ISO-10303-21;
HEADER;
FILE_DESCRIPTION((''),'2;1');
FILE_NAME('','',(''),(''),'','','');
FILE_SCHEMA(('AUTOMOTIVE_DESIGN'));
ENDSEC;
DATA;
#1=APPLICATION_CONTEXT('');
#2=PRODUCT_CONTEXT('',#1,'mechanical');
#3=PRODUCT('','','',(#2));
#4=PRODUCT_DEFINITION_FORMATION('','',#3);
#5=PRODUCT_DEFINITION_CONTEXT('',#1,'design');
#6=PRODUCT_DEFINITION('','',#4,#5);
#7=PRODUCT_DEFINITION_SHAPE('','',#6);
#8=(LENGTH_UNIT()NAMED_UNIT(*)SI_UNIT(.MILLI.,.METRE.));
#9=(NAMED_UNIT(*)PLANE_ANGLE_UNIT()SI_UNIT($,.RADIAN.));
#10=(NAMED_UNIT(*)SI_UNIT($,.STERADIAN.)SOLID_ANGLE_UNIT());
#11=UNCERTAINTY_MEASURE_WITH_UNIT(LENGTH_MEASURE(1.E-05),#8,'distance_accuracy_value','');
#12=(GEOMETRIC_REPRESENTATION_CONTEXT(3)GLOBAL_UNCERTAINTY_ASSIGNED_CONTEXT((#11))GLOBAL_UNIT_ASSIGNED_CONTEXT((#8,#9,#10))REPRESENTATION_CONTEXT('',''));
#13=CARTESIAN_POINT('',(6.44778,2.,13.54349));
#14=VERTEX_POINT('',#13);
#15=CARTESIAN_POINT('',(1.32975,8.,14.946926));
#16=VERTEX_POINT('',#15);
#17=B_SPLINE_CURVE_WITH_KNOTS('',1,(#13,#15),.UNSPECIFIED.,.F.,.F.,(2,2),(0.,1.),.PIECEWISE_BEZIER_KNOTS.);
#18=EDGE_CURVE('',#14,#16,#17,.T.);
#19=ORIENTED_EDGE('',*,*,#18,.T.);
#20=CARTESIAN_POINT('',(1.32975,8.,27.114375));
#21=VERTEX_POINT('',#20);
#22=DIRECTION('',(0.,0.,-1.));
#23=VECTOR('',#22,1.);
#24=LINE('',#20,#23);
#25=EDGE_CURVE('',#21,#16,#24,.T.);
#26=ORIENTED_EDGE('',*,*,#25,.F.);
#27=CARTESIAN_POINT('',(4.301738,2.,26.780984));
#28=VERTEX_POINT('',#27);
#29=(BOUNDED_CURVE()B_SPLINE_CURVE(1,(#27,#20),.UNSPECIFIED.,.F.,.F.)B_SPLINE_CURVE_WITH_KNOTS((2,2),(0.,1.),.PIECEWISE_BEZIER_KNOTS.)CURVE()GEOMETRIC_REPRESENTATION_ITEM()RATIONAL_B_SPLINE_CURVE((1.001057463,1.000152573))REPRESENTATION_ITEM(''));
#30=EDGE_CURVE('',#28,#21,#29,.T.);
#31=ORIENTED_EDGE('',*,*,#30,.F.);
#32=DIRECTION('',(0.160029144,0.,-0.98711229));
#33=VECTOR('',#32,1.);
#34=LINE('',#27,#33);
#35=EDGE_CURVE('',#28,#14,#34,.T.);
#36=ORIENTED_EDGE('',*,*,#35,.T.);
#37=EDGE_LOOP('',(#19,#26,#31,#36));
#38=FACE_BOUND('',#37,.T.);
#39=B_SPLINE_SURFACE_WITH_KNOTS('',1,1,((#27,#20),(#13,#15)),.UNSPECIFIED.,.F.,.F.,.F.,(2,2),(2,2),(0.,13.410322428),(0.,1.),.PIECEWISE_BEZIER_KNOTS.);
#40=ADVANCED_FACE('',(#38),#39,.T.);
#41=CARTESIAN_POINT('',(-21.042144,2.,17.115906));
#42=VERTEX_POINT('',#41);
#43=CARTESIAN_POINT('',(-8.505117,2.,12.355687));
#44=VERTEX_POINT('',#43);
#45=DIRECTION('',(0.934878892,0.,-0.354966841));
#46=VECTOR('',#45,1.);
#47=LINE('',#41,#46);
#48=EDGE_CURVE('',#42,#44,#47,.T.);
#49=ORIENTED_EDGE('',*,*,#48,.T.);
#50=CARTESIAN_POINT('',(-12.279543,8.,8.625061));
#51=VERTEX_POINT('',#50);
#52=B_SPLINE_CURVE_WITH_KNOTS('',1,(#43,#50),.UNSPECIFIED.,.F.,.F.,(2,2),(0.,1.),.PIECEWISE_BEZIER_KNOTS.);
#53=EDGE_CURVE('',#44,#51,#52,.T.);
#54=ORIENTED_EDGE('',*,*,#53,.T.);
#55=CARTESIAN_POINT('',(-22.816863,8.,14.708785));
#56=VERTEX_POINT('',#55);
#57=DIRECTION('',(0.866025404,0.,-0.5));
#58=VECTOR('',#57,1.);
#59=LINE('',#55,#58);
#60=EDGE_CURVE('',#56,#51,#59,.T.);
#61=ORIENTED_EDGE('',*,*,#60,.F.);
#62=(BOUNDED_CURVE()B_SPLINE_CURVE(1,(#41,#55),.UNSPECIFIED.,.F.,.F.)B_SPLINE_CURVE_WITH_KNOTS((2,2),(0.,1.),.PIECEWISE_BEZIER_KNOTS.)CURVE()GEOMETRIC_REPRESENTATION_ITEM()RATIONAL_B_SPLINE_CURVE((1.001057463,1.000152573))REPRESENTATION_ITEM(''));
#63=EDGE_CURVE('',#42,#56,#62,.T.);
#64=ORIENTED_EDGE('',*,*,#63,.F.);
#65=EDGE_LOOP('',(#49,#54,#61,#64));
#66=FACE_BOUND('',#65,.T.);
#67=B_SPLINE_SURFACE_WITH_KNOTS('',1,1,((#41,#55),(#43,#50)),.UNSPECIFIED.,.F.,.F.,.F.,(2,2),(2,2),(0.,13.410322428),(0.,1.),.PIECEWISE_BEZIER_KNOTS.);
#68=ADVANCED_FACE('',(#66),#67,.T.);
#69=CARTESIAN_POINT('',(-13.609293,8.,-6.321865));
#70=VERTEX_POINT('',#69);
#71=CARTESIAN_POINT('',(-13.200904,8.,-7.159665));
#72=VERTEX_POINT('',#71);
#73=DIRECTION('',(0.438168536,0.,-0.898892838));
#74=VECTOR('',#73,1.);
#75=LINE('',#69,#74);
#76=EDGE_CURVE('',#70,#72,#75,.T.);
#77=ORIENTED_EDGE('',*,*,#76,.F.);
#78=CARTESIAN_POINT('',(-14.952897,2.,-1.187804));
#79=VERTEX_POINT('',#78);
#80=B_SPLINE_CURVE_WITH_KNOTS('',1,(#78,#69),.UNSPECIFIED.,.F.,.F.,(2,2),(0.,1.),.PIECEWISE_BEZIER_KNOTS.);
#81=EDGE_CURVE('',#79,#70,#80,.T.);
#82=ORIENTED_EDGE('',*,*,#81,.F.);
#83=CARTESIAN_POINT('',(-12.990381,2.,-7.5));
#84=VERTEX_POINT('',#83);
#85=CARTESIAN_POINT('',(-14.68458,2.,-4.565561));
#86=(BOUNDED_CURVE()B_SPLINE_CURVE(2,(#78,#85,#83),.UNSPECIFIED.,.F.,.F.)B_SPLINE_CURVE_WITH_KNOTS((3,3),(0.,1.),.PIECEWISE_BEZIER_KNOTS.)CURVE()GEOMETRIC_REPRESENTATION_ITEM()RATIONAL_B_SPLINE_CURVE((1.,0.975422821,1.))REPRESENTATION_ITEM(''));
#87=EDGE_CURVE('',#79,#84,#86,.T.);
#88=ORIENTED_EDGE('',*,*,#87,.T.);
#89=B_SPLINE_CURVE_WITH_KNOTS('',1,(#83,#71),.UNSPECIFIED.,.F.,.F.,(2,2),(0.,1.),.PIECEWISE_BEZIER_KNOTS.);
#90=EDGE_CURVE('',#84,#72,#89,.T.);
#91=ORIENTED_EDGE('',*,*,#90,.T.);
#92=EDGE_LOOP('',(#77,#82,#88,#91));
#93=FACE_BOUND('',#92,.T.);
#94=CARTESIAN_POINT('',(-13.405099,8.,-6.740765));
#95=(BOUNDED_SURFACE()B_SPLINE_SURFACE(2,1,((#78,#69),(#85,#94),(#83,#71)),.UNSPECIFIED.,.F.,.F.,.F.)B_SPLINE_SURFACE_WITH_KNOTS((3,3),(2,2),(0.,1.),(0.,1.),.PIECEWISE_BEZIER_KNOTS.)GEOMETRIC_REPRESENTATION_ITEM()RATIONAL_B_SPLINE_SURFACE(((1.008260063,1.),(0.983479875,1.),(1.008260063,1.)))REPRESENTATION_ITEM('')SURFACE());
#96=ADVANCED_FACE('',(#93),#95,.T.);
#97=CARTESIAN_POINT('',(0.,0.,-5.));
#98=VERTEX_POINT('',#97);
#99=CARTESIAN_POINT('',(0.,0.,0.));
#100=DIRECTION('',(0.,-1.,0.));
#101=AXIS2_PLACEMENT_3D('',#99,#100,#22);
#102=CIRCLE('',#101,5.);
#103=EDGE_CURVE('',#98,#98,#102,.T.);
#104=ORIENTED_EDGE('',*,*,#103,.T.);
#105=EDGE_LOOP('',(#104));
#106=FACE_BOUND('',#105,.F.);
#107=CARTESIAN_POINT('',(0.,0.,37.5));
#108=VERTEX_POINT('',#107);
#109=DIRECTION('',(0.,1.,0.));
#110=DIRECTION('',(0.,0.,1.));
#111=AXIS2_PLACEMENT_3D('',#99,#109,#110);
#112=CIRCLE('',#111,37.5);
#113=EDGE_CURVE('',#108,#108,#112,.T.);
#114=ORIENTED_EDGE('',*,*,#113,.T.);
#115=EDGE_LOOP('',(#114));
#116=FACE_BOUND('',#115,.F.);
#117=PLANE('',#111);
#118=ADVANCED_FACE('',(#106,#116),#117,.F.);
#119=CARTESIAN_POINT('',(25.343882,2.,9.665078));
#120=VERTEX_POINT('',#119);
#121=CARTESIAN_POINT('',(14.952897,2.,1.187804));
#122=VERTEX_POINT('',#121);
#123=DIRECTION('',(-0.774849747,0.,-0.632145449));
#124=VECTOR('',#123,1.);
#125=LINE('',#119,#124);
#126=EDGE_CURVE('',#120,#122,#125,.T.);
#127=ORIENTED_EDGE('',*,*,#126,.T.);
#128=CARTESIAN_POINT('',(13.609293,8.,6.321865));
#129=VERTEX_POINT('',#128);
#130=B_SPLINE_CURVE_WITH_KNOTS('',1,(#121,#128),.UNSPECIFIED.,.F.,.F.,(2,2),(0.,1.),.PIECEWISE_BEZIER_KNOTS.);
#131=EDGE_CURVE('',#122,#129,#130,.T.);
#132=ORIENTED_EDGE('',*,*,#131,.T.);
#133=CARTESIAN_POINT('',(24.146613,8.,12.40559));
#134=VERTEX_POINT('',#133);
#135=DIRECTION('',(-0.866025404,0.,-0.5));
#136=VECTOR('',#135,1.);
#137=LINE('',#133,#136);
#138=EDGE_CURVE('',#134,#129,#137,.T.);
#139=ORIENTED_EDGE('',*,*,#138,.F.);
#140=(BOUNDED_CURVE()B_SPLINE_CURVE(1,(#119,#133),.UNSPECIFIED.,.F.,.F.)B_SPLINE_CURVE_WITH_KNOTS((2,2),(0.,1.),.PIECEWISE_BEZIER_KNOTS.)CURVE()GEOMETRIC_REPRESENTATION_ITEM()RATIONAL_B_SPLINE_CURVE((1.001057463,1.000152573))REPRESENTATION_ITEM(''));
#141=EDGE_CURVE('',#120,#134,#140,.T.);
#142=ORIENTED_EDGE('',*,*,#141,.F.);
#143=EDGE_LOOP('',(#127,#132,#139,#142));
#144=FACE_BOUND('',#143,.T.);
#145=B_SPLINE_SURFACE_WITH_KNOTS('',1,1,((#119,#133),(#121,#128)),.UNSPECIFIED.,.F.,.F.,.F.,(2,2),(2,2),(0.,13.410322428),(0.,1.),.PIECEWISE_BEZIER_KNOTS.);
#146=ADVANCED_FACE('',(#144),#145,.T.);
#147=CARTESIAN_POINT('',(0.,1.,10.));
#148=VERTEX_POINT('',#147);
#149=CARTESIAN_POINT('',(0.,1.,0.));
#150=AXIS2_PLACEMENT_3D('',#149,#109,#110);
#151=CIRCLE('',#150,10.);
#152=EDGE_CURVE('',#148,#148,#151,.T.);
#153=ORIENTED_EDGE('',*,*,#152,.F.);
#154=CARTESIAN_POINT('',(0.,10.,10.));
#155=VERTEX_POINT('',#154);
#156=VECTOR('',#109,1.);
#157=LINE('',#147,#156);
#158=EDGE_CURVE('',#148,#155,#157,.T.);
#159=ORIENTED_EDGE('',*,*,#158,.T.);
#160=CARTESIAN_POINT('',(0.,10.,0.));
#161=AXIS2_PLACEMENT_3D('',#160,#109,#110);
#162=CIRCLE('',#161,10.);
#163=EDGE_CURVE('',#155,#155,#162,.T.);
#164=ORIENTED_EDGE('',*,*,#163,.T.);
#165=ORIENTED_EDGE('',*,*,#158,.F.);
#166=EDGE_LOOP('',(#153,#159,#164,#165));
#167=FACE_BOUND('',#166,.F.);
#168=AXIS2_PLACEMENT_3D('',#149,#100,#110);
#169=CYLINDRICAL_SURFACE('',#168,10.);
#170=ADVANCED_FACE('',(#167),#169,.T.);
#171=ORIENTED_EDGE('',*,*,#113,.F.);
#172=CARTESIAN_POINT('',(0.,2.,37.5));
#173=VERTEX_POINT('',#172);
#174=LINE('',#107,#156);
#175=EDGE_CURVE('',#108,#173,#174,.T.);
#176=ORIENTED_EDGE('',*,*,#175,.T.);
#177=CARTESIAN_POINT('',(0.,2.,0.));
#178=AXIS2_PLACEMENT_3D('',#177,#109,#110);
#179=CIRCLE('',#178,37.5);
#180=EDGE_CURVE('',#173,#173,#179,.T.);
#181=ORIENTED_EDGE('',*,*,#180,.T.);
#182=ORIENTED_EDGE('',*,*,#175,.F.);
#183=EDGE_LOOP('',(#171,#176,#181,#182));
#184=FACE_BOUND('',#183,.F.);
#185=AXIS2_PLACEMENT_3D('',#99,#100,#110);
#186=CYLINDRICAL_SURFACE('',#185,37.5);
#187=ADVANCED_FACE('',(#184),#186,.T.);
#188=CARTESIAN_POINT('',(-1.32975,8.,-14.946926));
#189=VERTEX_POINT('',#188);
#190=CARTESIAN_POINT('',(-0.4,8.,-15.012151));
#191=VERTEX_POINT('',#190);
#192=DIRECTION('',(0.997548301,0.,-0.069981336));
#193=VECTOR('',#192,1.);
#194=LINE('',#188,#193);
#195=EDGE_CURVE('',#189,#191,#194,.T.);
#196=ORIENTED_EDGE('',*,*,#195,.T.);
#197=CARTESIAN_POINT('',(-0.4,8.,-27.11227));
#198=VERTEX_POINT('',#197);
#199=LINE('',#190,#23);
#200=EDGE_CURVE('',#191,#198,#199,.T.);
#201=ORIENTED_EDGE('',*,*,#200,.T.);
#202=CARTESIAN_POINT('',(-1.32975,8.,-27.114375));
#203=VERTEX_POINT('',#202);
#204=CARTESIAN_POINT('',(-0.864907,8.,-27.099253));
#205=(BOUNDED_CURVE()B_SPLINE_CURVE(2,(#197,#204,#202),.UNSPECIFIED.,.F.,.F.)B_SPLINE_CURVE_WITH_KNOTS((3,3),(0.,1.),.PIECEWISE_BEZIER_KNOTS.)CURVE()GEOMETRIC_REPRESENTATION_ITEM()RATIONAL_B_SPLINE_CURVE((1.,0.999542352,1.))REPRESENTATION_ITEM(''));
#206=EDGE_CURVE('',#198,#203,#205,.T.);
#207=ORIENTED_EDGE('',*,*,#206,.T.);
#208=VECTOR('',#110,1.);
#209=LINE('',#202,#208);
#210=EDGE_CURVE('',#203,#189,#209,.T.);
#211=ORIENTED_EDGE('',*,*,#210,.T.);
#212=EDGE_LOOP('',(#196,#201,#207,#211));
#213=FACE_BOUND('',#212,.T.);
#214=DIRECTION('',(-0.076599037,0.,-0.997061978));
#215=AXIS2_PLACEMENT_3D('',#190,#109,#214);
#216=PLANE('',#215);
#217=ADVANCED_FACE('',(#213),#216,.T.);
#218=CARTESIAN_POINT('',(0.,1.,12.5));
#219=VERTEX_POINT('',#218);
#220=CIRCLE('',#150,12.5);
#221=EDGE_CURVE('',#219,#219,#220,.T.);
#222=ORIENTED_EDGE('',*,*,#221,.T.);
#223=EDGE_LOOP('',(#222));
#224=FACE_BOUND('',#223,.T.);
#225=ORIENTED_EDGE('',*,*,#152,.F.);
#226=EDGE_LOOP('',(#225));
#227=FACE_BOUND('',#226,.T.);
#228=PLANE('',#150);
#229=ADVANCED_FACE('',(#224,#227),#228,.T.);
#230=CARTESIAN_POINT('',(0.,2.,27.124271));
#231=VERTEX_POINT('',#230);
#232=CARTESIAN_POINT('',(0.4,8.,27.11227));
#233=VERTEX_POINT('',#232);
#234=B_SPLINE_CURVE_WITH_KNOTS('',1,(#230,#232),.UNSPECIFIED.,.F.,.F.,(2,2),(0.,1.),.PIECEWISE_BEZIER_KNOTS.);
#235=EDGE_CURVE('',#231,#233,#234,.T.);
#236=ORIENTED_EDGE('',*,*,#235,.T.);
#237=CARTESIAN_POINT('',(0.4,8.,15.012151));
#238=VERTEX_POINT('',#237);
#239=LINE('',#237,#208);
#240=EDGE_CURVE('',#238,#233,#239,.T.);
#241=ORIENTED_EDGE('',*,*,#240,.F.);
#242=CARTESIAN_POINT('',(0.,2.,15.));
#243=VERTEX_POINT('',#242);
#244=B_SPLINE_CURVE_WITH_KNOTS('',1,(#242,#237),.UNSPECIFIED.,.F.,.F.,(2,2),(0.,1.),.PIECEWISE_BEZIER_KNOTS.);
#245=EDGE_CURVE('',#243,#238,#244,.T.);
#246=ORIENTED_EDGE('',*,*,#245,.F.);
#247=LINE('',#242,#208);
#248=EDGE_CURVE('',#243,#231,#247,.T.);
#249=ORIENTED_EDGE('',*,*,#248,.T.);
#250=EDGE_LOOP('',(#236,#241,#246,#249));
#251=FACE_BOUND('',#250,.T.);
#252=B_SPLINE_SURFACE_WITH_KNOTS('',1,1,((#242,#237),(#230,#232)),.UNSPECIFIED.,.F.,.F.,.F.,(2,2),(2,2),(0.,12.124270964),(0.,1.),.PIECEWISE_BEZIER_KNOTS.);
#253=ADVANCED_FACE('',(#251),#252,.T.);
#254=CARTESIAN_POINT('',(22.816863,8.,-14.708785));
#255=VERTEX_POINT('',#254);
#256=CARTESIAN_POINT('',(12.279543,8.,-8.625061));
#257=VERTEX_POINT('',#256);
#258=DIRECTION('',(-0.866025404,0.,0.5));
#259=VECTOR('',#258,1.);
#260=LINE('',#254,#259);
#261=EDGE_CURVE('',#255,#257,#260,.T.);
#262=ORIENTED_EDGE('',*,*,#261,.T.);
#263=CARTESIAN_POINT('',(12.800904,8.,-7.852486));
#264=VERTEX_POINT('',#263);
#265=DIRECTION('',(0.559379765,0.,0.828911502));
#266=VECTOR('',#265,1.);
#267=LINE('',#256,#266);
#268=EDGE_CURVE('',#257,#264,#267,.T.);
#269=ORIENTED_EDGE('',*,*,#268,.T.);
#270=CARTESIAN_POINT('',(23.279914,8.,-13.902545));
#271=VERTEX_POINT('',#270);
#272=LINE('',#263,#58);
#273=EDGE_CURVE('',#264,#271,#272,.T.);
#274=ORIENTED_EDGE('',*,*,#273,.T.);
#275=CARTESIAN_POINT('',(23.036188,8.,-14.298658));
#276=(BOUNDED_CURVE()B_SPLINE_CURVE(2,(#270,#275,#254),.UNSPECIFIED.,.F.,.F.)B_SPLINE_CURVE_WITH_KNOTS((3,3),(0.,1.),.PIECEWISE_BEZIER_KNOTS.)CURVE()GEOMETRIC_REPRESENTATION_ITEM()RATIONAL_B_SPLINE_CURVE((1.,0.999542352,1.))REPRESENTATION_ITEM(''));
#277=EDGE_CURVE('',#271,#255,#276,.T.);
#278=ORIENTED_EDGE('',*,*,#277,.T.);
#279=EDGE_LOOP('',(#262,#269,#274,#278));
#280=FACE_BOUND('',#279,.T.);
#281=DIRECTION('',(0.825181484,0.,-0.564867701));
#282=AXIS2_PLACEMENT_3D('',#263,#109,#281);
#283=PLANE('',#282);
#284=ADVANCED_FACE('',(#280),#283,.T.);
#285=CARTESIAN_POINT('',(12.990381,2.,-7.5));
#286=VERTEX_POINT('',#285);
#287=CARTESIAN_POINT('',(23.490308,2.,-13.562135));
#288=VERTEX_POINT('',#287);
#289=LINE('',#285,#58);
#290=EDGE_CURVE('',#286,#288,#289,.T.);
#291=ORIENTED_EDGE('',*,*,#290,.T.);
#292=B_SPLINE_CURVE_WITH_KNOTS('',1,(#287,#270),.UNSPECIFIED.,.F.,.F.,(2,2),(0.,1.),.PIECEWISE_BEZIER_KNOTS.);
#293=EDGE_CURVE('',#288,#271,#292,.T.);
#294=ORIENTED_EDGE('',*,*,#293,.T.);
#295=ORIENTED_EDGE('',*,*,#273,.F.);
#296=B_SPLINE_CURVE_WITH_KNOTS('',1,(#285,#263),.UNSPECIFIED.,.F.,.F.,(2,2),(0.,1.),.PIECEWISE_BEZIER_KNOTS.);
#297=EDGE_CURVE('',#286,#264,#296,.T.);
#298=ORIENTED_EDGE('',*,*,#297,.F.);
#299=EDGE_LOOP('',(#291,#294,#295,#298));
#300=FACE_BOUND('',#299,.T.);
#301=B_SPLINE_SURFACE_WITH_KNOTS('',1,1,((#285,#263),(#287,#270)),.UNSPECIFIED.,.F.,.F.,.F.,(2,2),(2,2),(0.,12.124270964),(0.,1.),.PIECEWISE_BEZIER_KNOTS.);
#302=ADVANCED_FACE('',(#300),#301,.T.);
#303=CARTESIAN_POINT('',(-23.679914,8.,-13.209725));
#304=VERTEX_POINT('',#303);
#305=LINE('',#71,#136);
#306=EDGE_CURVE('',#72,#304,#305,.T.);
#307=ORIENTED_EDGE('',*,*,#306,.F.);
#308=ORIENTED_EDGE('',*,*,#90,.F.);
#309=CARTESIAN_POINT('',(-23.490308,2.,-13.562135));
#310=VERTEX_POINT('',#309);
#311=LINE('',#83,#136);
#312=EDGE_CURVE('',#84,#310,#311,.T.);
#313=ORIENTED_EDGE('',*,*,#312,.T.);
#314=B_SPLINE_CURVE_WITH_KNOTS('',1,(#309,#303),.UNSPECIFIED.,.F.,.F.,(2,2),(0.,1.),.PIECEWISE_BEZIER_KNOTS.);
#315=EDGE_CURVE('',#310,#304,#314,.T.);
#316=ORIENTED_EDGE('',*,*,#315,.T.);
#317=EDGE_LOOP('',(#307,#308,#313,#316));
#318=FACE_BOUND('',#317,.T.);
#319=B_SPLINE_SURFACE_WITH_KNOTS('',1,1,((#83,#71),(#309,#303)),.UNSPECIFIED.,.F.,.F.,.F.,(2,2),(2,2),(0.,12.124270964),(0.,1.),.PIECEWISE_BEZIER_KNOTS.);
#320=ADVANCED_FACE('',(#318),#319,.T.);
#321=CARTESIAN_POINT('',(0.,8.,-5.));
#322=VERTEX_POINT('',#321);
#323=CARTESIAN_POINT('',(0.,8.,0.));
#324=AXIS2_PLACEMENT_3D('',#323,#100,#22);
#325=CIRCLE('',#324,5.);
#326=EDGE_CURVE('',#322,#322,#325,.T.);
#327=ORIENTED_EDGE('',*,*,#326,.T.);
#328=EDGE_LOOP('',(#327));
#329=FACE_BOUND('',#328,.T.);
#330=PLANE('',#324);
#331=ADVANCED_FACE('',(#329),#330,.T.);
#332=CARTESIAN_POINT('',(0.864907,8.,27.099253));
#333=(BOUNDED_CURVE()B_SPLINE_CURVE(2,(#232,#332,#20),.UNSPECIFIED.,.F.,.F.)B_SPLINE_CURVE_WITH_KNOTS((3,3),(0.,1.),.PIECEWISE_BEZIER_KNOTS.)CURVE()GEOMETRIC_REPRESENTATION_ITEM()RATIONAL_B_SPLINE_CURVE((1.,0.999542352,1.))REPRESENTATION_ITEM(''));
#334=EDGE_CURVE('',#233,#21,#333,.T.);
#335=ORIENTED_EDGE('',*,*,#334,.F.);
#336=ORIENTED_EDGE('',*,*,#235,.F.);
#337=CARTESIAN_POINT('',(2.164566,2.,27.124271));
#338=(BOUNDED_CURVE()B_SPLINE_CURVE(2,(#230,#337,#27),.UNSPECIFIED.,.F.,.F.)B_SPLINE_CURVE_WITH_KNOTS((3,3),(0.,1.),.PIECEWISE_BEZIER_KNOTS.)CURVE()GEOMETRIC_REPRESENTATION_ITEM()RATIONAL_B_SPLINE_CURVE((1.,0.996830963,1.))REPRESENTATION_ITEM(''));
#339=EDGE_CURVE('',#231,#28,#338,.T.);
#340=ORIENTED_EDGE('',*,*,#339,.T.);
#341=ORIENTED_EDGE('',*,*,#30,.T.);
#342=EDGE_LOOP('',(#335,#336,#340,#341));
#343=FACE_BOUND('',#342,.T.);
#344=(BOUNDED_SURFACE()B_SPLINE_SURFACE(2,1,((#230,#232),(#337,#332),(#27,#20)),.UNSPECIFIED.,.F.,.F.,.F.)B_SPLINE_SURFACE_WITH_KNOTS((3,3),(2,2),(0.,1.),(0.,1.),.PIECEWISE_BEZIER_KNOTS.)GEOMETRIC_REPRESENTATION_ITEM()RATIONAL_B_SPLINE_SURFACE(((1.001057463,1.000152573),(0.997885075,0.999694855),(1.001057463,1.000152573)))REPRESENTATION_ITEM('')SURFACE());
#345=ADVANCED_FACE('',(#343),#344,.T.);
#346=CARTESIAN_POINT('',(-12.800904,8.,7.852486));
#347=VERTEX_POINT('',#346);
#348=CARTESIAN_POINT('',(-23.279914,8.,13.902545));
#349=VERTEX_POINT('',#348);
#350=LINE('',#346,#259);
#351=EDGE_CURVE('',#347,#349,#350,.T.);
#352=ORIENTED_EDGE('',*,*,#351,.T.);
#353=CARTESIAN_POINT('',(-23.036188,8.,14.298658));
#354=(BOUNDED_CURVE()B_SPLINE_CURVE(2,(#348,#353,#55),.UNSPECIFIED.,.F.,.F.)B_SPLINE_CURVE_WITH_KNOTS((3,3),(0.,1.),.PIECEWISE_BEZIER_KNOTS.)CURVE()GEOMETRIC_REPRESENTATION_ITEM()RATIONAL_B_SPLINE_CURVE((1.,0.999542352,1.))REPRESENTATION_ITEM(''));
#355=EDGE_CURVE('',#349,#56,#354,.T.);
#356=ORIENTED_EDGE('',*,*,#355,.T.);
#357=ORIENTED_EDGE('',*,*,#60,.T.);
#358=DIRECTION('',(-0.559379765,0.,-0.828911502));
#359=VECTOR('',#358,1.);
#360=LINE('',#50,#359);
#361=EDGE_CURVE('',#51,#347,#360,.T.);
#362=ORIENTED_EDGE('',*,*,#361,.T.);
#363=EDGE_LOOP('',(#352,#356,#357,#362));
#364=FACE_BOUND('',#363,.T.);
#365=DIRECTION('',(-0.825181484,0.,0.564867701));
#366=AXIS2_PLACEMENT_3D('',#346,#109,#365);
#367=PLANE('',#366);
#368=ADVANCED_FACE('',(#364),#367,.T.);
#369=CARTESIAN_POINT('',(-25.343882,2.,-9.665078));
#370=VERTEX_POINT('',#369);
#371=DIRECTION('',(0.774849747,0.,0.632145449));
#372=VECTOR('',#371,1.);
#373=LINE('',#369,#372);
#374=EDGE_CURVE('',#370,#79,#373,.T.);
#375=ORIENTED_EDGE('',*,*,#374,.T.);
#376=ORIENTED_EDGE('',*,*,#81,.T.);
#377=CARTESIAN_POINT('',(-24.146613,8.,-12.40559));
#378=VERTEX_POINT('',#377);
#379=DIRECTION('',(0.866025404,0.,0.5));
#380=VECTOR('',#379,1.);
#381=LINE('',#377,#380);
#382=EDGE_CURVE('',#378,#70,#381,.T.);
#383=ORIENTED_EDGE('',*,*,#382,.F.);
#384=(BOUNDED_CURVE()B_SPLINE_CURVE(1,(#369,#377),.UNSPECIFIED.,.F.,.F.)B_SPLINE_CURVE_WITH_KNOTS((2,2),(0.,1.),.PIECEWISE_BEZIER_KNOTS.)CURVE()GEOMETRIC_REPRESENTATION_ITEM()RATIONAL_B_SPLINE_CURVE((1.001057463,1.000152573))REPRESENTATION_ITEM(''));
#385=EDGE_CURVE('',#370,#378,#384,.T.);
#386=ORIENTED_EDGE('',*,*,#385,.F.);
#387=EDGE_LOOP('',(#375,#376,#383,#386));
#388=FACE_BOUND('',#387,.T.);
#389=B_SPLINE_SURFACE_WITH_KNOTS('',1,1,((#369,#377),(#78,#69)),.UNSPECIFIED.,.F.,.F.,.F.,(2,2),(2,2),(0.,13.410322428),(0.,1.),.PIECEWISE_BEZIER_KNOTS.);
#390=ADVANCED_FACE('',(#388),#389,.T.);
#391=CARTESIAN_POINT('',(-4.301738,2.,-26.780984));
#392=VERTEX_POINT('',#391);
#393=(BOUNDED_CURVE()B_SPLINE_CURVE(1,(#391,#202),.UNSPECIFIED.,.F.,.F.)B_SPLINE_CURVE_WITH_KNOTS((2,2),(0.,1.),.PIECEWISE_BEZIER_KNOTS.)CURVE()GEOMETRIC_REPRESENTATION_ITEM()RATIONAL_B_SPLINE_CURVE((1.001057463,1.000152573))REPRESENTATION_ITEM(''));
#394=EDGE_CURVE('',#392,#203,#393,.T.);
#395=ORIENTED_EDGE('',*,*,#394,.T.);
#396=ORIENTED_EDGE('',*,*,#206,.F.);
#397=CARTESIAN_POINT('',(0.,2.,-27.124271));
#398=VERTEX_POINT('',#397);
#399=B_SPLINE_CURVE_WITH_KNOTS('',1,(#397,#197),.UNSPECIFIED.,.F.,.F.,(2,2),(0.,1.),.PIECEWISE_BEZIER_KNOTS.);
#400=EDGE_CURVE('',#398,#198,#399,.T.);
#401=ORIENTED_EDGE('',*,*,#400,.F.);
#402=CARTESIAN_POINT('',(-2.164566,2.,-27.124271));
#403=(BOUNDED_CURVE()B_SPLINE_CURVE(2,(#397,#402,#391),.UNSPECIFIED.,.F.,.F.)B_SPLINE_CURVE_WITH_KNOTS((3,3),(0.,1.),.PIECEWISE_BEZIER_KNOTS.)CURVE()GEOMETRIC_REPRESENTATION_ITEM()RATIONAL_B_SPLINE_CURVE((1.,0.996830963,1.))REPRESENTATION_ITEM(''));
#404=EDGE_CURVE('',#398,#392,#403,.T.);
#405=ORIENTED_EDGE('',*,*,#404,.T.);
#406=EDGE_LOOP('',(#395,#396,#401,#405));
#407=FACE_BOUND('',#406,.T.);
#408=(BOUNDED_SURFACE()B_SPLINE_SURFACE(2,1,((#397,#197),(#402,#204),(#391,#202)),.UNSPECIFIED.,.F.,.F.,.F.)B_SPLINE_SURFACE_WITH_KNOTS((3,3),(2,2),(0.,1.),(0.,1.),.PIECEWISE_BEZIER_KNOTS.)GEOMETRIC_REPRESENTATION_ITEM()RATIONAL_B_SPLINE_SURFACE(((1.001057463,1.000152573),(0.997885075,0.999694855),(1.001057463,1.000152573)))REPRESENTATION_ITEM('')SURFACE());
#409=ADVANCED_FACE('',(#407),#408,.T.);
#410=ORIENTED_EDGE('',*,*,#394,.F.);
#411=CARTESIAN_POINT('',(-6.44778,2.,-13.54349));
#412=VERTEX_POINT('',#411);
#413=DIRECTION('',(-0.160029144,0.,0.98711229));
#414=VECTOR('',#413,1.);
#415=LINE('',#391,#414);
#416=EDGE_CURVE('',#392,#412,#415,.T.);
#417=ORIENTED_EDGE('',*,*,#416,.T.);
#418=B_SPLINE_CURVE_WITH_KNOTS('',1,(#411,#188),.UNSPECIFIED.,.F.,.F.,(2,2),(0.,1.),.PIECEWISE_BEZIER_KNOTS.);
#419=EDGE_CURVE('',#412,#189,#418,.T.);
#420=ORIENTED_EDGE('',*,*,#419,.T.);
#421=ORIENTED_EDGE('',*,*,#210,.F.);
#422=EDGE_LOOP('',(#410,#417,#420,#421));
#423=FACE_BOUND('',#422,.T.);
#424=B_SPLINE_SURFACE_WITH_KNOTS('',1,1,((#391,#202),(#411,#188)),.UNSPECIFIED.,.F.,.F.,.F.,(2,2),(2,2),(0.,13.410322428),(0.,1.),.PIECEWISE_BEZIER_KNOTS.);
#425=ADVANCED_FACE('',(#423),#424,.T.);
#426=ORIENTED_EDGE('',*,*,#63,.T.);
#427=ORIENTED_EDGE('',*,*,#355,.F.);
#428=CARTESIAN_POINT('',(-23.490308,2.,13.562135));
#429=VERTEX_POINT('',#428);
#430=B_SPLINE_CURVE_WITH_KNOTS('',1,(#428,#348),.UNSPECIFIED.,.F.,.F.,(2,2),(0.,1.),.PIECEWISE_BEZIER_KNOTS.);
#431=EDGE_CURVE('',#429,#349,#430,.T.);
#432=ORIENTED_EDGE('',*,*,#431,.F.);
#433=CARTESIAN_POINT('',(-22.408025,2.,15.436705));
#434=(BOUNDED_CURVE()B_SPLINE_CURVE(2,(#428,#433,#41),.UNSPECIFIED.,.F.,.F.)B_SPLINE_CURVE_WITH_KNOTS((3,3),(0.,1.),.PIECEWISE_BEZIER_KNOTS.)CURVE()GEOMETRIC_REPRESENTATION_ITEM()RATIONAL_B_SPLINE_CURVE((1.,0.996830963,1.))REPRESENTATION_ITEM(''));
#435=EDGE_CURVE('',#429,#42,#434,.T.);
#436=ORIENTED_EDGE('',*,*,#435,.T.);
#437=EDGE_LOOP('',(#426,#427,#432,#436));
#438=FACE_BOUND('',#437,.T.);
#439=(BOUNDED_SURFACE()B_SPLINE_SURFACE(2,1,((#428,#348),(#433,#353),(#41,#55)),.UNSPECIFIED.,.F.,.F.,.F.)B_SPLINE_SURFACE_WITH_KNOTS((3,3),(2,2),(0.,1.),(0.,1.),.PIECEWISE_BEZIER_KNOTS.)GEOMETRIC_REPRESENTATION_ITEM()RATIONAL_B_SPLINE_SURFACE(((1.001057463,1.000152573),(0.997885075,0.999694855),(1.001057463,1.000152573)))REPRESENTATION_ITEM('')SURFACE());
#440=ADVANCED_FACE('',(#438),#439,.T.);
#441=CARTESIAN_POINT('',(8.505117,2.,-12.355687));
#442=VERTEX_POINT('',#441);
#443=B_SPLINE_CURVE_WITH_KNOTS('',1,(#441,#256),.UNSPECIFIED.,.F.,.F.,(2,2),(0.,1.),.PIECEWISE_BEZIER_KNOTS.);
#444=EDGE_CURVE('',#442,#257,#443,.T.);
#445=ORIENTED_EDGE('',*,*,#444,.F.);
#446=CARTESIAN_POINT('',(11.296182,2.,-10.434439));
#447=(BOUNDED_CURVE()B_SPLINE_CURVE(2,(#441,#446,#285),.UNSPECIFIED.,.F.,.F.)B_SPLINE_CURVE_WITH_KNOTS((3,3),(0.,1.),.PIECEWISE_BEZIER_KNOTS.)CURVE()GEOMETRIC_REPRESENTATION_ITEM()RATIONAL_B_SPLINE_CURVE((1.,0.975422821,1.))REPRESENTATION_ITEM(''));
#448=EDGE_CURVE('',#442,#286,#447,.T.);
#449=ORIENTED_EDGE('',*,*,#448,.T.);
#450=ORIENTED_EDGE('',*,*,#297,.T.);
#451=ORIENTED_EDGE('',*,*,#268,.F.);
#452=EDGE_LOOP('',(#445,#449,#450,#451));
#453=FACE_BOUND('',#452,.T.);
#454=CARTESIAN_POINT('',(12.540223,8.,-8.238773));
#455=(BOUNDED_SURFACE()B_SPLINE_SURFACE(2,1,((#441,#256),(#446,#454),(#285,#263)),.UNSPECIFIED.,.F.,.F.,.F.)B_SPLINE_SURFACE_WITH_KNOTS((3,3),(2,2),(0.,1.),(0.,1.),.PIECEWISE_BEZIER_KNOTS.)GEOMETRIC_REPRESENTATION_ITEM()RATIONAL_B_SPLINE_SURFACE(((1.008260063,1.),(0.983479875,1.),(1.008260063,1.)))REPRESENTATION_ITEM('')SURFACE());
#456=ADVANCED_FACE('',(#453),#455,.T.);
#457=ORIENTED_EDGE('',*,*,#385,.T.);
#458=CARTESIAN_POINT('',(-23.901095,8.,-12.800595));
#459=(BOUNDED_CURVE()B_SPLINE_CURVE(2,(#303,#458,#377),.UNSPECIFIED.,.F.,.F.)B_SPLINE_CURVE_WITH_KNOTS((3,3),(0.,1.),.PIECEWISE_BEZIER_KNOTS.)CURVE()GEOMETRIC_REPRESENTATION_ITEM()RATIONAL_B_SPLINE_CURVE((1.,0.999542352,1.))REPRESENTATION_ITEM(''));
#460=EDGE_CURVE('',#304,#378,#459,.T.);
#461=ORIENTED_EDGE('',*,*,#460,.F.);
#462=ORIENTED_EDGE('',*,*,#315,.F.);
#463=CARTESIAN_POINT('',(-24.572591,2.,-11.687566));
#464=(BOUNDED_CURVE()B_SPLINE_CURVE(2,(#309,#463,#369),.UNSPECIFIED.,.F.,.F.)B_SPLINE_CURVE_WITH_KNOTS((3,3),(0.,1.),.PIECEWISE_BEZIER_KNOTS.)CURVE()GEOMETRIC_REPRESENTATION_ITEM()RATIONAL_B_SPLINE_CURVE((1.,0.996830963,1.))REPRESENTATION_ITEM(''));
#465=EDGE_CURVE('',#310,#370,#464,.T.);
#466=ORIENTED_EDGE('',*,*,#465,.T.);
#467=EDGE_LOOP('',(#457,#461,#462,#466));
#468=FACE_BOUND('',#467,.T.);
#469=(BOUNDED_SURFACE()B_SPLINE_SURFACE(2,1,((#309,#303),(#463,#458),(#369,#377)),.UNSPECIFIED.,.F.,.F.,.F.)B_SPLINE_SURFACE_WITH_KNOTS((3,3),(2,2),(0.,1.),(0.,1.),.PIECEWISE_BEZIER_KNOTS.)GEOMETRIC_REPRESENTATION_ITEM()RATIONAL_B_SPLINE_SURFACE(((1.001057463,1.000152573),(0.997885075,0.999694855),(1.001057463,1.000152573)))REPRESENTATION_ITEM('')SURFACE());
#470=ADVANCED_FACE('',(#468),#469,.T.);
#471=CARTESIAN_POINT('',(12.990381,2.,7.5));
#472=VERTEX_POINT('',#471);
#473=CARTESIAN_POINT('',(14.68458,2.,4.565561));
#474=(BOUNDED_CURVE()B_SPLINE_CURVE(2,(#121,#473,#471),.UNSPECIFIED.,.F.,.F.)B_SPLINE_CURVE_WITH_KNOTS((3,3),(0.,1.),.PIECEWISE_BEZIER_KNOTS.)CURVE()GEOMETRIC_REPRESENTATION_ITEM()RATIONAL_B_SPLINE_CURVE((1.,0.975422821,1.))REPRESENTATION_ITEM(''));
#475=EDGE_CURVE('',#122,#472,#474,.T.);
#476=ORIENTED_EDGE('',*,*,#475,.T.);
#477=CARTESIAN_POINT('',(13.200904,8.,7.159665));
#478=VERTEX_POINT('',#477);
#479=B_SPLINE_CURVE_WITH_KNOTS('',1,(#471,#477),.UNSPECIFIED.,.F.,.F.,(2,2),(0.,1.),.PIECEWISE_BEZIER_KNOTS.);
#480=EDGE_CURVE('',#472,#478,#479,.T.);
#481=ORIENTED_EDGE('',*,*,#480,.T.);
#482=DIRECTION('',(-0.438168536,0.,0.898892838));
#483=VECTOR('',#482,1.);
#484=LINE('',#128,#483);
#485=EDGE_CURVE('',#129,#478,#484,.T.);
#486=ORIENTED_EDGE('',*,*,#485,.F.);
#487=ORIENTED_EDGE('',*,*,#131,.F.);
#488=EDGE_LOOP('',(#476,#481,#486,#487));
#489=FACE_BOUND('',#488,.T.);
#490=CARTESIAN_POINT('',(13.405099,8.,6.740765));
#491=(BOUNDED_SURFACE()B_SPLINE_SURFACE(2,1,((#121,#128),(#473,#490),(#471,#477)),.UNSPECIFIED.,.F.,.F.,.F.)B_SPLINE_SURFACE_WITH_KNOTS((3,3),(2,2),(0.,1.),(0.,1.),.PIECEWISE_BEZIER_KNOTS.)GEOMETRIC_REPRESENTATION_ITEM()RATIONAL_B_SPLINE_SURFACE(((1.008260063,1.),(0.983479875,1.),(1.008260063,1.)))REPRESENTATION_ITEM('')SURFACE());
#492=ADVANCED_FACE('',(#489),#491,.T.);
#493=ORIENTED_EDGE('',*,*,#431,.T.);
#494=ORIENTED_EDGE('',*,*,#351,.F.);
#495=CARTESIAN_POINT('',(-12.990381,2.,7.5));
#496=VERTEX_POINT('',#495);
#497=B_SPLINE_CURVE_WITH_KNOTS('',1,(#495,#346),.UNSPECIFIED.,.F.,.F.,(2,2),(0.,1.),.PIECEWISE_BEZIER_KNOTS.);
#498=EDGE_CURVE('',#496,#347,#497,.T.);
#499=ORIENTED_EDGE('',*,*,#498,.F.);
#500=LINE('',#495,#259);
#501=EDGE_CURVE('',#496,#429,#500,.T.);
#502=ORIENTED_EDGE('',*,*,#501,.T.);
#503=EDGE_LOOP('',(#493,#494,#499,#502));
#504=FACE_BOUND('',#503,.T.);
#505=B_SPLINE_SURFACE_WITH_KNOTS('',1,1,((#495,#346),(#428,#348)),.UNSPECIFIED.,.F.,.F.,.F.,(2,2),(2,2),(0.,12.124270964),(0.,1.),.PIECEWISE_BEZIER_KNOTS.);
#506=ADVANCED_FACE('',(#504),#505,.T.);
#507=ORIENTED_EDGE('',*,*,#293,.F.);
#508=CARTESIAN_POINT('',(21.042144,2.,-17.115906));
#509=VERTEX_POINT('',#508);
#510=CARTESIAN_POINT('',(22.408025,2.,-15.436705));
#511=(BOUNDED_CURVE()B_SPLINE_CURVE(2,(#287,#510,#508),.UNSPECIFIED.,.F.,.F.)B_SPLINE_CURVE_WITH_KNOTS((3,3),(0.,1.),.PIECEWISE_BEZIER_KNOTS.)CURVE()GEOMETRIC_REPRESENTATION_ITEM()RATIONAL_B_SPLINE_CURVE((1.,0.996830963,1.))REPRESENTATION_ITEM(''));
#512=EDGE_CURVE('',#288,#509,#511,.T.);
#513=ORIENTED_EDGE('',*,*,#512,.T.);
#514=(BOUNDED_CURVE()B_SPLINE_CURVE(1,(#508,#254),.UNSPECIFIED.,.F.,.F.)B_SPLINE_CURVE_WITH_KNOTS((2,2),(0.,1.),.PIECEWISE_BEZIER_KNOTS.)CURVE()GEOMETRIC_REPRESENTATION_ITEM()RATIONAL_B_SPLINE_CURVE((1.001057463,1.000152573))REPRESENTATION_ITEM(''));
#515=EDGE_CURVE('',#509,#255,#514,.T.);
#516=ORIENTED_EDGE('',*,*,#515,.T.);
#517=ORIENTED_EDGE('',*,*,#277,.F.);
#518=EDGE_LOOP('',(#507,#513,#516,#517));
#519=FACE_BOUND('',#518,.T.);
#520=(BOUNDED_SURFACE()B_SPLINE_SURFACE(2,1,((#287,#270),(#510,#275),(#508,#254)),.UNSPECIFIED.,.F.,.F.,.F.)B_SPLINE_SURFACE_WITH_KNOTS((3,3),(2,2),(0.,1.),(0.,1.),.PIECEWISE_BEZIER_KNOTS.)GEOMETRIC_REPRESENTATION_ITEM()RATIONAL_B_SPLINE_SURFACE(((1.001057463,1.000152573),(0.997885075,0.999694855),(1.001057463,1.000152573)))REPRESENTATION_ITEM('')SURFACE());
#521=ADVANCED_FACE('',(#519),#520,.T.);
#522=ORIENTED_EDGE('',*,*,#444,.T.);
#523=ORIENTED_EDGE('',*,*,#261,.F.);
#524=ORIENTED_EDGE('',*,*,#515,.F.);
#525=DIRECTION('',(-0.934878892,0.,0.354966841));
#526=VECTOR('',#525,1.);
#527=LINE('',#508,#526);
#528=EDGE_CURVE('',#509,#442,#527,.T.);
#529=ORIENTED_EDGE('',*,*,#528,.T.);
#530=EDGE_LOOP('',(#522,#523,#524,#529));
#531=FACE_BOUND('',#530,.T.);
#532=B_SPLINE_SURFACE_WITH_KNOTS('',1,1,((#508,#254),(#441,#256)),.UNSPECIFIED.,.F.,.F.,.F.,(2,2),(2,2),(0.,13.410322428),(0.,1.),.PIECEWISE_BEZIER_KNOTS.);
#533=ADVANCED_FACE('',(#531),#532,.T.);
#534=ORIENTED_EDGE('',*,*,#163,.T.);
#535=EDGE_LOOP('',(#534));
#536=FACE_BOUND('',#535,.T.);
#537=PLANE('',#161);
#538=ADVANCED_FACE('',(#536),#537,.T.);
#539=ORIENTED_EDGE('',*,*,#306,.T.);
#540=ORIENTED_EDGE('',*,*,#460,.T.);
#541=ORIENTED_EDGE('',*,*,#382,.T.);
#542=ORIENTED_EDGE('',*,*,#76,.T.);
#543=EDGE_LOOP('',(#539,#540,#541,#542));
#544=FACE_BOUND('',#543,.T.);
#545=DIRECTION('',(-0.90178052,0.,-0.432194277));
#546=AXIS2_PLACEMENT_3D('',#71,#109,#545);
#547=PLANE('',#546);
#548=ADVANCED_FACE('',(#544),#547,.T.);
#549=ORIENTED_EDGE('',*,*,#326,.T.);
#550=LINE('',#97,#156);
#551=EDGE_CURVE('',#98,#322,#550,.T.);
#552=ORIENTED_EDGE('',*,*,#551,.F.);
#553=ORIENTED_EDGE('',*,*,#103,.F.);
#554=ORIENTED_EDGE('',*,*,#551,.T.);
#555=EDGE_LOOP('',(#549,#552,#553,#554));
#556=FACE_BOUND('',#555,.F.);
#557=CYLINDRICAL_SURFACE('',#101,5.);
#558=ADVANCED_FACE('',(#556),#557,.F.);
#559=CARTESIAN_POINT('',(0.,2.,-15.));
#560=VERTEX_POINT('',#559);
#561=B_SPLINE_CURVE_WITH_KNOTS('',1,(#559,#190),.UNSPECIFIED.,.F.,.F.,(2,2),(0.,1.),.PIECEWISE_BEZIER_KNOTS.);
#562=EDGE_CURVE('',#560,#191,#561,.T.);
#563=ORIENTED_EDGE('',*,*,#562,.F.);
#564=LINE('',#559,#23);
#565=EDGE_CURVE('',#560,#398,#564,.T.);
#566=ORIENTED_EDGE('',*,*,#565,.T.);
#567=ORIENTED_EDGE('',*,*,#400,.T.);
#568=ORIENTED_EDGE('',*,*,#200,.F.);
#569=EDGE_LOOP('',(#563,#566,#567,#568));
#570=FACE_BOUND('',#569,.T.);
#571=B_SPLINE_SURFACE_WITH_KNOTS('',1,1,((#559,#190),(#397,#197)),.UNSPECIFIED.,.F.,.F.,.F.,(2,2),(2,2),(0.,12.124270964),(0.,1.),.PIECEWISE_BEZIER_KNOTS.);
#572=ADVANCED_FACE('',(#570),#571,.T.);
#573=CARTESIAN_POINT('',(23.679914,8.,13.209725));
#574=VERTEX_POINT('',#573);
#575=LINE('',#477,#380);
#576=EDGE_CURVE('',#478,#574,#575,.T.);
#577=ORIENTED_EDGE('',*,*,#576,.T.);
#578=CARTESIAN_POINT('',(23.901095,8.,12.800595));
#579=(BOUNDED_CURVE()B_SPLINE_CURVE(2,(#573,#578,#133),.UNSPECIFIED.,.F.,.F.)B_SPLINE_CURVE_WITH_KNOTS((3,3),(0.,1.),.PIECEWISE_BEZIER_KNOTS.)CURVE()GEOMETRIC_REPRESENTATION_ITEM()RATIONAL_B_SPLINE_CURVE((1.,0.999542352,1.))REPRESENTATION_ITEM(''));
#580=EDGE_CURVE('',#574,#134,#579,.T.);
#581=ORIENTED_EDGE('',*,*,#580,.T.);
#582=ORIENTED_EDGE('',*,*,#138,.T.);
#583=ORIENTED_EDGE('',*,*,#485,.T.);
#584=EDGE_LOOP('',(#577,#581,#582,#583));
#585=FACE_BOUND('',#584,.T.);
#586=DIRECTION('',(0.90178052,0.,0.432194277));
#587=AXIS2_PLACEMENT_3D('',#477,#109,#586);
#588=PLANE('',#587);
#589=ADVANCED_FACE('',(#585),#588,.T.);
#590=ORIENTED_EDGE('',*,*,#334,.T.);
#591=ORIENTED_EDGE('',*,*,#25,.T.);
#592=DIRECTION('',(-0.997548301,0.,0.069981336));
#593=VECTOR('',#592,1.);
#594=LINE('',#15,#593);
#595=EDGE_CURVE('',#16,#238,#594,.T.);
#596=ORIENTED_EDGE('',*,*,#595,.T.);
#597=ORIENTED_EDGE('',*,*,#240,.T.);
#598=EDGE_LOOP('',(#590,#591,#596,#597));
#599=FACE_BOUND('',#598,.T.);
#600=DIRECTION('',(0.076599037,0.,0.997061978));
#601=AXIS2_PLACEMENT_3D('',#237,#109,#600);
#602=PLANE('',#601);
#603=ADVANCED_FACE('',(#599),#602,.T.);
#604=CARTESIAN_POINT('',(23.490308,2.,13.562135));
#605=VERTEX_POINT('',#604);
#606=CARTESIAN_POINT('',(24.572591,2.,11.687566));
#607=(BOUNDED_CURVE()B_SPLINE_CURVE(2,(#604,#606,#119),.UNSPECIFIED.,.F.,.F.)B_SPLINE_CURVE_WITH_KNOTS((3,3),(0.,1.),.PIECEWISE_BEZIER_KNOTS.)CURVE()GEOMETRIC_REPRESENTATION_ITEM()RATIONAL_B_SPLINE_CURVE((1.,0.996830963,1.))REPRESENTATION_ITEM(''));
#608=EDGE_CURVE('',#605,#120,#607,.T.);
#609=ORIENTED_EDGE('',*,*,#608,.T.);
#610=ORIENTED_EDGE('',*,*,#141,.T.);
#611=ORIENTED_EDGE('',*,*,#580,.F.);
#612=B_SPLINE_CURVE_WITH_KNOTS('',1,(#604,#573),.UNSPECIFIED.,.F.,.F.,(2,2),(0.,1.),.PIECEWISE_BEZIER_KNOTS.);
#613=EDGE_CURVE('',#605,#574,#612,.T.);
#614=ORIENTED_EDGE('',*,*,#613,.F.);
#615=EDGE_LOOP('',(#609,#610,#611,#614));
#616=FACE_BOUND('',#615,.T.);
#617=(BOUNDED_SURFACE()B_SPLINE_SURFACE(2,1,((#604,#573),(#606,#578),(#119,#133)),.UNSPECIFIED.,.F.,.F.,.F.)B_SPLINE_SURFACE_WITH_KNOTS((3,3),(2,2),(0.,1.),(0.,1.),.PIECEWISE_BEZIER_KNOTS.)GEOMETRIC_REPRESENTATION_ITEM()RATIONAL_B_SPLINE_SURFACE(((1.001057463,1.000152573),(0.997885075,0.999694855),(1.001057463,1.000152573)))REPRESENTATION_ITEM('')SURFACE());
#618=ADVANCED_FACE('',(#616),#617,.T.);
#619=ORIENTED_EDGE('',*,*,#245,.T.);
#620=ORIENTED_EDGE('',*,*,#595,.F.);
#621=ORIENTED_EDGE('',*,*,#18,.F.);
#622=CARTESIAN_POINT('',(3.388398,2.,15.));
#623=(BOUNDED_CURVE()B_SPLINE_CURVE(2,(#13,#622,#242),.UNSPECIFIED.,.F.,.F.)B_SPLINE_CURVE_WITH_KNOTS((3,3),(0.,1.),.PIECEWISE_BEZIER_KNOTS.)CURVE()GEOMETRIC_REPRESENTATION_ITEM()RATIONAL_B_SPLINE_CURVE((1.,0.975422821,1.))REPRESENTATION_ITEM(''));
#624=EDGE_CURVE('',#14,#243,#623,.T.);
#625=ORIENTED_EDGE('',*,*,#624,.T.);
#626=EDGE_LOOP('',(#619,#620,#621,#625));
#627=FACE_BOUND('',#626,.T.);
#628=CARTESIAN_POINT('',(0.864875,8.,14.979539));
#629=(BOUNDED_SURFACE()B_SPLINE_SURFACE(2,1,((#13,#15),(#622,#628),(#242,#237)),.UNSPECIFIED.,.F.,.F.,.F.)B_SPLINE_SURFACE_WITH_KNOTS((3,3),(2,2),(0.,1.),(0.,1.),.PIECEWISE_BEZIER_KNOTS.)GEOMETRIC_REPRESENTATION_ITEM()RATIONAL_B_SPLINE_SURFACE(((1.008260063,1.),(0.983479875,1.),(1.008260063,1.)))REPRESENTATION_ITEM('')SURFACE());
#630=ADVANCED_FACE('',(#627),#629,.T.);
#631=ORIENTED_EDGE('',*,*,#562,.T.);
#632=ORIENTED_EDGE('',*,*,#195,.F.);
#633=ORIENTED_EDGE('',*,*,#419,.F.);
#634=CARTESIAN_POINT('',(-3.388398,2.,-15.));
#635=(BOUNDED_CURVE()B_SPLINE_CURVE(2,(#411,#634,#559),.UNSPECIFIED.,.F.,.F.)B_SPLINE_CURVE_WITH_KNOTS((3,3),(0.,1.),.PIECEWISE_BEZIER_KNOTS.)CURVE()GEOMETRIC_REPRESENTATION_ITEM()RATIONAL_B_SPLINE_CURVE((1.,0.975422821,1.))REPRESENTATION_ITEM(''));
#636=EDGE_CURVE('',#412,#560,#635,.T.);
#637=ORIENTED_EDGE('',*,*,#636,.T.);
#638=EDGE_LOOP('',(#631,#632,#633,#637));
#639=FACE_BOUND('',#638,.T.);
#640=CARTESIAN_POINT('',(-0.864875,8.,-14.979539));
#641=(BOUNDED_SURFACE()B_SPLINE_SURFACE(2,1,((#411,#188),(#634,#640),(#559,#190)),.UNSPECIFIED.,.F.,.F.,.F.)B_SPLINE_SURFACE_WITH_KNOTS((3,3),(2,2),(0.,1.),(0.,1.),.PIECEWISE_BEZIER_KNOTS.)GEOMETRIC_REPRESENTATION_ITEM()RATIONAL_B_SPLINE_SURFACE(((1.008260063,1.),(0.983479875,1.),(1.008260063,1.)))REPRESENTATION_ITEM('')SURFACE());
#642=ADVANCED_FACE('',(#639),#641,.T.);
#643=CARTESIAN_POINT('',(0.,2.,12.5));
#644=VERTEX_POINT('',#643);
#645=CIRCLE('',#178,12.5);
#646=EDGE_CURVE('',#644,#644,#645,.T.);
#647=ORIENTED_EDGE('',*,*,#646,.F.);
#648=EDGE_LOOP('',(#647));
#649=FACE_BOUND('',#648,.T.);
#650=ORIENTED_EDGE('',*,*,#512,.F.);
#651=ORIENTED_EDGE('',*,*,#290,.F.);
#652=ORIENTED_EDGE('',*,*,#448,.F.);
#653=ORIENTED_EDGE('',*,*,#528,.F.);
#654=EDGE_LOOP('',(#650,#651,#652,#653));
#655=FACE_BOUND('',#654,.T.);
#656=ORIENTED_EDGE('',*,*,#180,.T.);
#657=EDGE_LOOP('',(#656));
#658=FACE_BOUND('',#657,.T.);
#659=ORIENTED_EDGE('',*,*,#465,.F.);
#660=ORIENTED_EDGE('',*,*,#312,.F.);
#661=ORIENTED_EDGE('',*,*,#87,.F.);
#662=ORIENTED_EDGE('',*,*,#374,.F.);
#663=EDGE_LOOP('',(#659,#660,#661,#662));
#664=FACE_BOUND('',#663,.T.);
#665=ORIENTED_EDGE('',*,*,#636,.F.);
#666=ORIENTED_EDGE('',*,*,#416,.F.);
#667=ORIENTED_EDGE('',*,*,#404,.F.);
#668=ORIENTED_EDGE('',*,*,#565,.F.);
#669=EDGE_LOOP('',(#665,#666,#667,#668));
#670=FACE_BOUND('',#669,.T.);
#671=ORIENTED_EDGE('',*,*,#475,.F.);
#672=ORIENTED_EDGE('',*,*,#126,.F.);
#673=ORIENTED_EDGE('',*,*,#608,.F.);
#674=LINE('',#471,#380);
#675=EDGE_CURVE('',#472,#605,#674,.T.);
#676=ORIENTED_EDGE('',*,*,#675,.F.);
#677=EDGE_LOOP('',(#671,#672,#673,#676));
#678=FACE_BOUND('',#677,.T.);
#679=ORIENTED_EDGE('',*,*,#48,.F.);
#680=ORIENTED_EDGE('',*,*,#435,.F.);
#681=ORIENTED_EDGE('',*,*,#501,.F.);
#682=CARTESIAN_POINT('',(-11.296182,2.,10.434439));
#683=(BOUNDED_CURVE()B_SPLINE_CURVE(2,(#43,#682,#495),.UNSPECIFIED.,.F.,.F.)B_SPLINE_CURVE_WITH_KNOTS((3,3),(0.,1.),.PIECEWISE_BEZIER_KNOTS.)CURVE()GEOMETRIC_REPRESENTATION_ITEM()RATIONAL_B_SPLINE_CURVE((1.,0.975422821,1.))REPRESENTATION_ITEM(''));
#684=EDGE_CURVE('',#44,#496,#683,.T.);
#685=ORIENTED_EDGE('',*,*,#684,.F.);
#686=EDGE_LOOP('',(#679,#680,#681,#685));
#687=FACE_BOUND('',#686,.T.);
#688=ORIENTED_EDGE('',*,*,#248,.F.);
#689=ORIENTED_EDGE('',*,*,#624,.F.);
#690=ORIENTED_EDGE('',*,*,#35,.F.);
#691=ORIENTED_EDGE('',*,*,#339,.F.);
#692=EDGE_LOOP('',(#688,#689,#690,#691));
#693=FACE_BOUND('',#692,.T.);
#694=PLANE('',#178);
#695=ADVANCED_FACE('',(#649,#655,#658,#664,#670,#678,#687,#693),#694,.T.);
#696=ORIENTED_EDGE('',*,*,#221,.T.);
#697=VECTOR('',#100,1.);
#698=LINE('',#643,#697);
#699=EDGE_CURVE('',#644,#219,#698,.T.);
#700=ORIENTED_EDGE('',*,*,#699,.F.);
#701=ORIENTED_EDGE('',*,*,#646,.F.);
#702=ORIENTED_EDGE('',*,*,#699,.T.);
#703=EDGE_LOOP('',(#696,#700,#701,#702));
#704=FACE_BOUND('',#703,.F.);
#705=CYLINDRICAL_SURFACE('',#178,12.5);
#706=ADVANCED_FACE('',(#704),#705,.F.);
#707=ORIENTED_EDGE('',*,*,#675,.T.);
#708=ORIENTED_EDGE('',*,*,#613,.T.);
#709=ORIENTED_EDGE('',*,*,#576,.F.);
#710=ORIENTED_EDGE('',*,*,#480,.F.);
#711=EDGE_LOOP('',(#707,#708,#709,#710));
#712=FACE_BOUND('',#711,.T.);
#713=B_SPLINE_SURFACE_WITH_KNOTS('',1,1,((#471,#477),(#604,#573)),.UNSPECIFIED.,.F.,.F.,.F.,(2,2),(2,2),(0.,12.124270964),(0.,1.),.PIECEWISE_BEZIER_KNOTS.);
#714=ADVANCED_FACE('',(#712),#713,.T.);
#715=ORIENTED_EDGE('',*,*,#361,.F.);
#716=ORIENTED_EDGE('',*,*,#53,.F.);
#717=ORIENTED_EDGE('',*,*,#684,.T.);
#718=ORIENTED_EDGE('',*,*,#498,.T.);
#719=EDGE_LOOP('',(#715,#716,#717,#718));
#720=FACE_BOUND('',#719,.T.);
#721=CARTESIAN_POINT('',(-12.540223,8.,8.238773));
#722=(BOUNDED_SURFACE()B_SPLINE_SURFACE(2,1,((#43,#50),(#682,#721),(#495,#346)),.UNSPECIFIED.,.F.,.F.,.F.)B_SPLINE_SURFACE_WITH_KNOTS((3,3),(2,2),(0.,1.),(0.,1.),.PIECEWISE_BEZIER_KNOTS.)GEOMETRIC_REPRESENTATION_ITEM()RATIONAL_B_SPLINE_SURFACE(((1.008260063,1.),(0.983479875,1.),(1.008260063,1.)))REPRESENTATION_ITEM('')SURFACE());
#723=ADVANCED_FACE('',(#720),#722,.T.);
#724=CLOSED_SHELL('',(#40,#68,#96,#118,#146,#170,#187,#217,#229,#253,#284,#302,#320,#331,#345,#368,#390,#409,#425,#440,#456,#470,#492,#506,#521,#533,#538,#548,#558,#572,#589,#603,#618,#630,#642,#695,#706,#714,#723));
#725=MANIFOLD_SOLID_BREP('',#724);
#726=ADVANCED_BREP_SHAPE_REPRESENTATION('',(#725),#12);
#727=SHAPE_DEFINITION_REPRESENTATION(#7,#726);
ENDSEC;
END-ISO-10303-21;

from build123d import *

# Parameters (mm, degrees)
SKETCH2_R           = 37.5
BOSS_EXTRUDE1_DEPTH = 2
CIRPATTERN1_COUNT   = 6
SKETCH6_R           = 12.5
CUT_EXTRUDE1_DEPTH  = 1
SKETCH7_R           = 10
BOSS_EXTRUDE2_DEPTH = 9
SKETCH8_R           = 5
CUT_EXTRUDE2_DEPTH  = 8


with BuildPart() as part:
    # Sketch2 → Boss-Extrude1 (new body)
    with BuildSketch(Plane(origin=(0, 0, 0), x_dir=(1, 0, 0), z_dir=(0, 1, 0))):
        with Locations(Location((0, 0, 0), (0, 0, 270))):
            Circle(SKETCH2_R)
    extrude(amount=BOSS_EXTRUDE1_DEPTH)

    # Sketch3 for Loft1 → Loft1 section 0
    with BuildSketch(Plane(origin=(0, 2, 0), x_dir=(1, 0, 0), z_dir=(0, 1, 0))):
        with BuildLine():
            Line((0, -15), (0, -27.124270964))
            # circular arc as an exact rational Bezier (weights 1, cos(half-angle), 1)
            Bezier((0, -27.124270964), (2.164566304, -27.124270964), (4.301737718, -26.780984447), weights=[1, 0.996830963, 1])
            Line((4.301737718, -26.780984447), (6.447780139, -13.543490366))
            Bezier((6.447780139, -13.543490366), (3.388397874, -15), (0, -15), weights=[1, 0.975422821, 1])
        make_face()
    # Sketch4 for Loft1 → Loft1 section 1
    with BuildSketch(Plane(origin=(0, 8, 0), x_dir=(1, 0, 0), z_dir=(0, 1, 0))):
        with BuildLine():
            Line((0.4, -15.012151174), (0.4, -27.112269684))
            Bezier((0.4, -27.112269684), (0.86490704, -27.099253481), (1.32975035, -27.114375462), weights=[1, 0.999542352, 1])
            Line((1.32975035, -27.114375462), (1.32975035, -14.94692609))
            Line((1.32975035, -14.94692609), (0.4, -15.012151174))
        make_face()
    loft1 = loft()

    # CirPattern1: Loft1 ×6 about axis
    cirpattern1_axis = Axis((0, -1000, 0), (0, 1, 0))
    for i in range(1, CIRPATTERN1_COUNT):
        add(loft1.rotate(cirpattern1_axis, i * 360 / CIRPATTERN1_COUNT))

    # Sketch6 → Cut-Extrude1 (cut)
    with BuildSketch(Plane(origin=(0, 2, 0), x_dir=(1, 0, 0), z_dir=(0, 1, 0))):
        with Locations(Location((0, 0, 0), (0, 0, 270))):
            Circle(SKETCH6_R)
    extrude(amount=-CUT_EXTRUDE1_DEPTH, mode=Mode.SUBTRACT)

    # Sketch7 → Boss-Extrude2 (add)
    with BuildSketch(Plane(origin=(0, 1, 0), x_dir=(1, 0, 0), z_dir=(0, 1, 0))):
        with Locations(Location((0, 0, 0), (0, 0, 270))):
            Circle(SKETCH7_R)
    extrude(amount=BOSS_EXTRUDE2_DEPTH)

    # Sketch8 → Cut-Extrude2 (cut)
    with BuildSketch(Plane.XZ):
        with Locations(Location((0, 0, 0), (0, 0, 270))):
            Circle(SKETCH8_R)
    extrude(amount=-CUT_EXTRUDE2_DEPTH, mode=Mode.SUBTRACT)


solid = part.part
